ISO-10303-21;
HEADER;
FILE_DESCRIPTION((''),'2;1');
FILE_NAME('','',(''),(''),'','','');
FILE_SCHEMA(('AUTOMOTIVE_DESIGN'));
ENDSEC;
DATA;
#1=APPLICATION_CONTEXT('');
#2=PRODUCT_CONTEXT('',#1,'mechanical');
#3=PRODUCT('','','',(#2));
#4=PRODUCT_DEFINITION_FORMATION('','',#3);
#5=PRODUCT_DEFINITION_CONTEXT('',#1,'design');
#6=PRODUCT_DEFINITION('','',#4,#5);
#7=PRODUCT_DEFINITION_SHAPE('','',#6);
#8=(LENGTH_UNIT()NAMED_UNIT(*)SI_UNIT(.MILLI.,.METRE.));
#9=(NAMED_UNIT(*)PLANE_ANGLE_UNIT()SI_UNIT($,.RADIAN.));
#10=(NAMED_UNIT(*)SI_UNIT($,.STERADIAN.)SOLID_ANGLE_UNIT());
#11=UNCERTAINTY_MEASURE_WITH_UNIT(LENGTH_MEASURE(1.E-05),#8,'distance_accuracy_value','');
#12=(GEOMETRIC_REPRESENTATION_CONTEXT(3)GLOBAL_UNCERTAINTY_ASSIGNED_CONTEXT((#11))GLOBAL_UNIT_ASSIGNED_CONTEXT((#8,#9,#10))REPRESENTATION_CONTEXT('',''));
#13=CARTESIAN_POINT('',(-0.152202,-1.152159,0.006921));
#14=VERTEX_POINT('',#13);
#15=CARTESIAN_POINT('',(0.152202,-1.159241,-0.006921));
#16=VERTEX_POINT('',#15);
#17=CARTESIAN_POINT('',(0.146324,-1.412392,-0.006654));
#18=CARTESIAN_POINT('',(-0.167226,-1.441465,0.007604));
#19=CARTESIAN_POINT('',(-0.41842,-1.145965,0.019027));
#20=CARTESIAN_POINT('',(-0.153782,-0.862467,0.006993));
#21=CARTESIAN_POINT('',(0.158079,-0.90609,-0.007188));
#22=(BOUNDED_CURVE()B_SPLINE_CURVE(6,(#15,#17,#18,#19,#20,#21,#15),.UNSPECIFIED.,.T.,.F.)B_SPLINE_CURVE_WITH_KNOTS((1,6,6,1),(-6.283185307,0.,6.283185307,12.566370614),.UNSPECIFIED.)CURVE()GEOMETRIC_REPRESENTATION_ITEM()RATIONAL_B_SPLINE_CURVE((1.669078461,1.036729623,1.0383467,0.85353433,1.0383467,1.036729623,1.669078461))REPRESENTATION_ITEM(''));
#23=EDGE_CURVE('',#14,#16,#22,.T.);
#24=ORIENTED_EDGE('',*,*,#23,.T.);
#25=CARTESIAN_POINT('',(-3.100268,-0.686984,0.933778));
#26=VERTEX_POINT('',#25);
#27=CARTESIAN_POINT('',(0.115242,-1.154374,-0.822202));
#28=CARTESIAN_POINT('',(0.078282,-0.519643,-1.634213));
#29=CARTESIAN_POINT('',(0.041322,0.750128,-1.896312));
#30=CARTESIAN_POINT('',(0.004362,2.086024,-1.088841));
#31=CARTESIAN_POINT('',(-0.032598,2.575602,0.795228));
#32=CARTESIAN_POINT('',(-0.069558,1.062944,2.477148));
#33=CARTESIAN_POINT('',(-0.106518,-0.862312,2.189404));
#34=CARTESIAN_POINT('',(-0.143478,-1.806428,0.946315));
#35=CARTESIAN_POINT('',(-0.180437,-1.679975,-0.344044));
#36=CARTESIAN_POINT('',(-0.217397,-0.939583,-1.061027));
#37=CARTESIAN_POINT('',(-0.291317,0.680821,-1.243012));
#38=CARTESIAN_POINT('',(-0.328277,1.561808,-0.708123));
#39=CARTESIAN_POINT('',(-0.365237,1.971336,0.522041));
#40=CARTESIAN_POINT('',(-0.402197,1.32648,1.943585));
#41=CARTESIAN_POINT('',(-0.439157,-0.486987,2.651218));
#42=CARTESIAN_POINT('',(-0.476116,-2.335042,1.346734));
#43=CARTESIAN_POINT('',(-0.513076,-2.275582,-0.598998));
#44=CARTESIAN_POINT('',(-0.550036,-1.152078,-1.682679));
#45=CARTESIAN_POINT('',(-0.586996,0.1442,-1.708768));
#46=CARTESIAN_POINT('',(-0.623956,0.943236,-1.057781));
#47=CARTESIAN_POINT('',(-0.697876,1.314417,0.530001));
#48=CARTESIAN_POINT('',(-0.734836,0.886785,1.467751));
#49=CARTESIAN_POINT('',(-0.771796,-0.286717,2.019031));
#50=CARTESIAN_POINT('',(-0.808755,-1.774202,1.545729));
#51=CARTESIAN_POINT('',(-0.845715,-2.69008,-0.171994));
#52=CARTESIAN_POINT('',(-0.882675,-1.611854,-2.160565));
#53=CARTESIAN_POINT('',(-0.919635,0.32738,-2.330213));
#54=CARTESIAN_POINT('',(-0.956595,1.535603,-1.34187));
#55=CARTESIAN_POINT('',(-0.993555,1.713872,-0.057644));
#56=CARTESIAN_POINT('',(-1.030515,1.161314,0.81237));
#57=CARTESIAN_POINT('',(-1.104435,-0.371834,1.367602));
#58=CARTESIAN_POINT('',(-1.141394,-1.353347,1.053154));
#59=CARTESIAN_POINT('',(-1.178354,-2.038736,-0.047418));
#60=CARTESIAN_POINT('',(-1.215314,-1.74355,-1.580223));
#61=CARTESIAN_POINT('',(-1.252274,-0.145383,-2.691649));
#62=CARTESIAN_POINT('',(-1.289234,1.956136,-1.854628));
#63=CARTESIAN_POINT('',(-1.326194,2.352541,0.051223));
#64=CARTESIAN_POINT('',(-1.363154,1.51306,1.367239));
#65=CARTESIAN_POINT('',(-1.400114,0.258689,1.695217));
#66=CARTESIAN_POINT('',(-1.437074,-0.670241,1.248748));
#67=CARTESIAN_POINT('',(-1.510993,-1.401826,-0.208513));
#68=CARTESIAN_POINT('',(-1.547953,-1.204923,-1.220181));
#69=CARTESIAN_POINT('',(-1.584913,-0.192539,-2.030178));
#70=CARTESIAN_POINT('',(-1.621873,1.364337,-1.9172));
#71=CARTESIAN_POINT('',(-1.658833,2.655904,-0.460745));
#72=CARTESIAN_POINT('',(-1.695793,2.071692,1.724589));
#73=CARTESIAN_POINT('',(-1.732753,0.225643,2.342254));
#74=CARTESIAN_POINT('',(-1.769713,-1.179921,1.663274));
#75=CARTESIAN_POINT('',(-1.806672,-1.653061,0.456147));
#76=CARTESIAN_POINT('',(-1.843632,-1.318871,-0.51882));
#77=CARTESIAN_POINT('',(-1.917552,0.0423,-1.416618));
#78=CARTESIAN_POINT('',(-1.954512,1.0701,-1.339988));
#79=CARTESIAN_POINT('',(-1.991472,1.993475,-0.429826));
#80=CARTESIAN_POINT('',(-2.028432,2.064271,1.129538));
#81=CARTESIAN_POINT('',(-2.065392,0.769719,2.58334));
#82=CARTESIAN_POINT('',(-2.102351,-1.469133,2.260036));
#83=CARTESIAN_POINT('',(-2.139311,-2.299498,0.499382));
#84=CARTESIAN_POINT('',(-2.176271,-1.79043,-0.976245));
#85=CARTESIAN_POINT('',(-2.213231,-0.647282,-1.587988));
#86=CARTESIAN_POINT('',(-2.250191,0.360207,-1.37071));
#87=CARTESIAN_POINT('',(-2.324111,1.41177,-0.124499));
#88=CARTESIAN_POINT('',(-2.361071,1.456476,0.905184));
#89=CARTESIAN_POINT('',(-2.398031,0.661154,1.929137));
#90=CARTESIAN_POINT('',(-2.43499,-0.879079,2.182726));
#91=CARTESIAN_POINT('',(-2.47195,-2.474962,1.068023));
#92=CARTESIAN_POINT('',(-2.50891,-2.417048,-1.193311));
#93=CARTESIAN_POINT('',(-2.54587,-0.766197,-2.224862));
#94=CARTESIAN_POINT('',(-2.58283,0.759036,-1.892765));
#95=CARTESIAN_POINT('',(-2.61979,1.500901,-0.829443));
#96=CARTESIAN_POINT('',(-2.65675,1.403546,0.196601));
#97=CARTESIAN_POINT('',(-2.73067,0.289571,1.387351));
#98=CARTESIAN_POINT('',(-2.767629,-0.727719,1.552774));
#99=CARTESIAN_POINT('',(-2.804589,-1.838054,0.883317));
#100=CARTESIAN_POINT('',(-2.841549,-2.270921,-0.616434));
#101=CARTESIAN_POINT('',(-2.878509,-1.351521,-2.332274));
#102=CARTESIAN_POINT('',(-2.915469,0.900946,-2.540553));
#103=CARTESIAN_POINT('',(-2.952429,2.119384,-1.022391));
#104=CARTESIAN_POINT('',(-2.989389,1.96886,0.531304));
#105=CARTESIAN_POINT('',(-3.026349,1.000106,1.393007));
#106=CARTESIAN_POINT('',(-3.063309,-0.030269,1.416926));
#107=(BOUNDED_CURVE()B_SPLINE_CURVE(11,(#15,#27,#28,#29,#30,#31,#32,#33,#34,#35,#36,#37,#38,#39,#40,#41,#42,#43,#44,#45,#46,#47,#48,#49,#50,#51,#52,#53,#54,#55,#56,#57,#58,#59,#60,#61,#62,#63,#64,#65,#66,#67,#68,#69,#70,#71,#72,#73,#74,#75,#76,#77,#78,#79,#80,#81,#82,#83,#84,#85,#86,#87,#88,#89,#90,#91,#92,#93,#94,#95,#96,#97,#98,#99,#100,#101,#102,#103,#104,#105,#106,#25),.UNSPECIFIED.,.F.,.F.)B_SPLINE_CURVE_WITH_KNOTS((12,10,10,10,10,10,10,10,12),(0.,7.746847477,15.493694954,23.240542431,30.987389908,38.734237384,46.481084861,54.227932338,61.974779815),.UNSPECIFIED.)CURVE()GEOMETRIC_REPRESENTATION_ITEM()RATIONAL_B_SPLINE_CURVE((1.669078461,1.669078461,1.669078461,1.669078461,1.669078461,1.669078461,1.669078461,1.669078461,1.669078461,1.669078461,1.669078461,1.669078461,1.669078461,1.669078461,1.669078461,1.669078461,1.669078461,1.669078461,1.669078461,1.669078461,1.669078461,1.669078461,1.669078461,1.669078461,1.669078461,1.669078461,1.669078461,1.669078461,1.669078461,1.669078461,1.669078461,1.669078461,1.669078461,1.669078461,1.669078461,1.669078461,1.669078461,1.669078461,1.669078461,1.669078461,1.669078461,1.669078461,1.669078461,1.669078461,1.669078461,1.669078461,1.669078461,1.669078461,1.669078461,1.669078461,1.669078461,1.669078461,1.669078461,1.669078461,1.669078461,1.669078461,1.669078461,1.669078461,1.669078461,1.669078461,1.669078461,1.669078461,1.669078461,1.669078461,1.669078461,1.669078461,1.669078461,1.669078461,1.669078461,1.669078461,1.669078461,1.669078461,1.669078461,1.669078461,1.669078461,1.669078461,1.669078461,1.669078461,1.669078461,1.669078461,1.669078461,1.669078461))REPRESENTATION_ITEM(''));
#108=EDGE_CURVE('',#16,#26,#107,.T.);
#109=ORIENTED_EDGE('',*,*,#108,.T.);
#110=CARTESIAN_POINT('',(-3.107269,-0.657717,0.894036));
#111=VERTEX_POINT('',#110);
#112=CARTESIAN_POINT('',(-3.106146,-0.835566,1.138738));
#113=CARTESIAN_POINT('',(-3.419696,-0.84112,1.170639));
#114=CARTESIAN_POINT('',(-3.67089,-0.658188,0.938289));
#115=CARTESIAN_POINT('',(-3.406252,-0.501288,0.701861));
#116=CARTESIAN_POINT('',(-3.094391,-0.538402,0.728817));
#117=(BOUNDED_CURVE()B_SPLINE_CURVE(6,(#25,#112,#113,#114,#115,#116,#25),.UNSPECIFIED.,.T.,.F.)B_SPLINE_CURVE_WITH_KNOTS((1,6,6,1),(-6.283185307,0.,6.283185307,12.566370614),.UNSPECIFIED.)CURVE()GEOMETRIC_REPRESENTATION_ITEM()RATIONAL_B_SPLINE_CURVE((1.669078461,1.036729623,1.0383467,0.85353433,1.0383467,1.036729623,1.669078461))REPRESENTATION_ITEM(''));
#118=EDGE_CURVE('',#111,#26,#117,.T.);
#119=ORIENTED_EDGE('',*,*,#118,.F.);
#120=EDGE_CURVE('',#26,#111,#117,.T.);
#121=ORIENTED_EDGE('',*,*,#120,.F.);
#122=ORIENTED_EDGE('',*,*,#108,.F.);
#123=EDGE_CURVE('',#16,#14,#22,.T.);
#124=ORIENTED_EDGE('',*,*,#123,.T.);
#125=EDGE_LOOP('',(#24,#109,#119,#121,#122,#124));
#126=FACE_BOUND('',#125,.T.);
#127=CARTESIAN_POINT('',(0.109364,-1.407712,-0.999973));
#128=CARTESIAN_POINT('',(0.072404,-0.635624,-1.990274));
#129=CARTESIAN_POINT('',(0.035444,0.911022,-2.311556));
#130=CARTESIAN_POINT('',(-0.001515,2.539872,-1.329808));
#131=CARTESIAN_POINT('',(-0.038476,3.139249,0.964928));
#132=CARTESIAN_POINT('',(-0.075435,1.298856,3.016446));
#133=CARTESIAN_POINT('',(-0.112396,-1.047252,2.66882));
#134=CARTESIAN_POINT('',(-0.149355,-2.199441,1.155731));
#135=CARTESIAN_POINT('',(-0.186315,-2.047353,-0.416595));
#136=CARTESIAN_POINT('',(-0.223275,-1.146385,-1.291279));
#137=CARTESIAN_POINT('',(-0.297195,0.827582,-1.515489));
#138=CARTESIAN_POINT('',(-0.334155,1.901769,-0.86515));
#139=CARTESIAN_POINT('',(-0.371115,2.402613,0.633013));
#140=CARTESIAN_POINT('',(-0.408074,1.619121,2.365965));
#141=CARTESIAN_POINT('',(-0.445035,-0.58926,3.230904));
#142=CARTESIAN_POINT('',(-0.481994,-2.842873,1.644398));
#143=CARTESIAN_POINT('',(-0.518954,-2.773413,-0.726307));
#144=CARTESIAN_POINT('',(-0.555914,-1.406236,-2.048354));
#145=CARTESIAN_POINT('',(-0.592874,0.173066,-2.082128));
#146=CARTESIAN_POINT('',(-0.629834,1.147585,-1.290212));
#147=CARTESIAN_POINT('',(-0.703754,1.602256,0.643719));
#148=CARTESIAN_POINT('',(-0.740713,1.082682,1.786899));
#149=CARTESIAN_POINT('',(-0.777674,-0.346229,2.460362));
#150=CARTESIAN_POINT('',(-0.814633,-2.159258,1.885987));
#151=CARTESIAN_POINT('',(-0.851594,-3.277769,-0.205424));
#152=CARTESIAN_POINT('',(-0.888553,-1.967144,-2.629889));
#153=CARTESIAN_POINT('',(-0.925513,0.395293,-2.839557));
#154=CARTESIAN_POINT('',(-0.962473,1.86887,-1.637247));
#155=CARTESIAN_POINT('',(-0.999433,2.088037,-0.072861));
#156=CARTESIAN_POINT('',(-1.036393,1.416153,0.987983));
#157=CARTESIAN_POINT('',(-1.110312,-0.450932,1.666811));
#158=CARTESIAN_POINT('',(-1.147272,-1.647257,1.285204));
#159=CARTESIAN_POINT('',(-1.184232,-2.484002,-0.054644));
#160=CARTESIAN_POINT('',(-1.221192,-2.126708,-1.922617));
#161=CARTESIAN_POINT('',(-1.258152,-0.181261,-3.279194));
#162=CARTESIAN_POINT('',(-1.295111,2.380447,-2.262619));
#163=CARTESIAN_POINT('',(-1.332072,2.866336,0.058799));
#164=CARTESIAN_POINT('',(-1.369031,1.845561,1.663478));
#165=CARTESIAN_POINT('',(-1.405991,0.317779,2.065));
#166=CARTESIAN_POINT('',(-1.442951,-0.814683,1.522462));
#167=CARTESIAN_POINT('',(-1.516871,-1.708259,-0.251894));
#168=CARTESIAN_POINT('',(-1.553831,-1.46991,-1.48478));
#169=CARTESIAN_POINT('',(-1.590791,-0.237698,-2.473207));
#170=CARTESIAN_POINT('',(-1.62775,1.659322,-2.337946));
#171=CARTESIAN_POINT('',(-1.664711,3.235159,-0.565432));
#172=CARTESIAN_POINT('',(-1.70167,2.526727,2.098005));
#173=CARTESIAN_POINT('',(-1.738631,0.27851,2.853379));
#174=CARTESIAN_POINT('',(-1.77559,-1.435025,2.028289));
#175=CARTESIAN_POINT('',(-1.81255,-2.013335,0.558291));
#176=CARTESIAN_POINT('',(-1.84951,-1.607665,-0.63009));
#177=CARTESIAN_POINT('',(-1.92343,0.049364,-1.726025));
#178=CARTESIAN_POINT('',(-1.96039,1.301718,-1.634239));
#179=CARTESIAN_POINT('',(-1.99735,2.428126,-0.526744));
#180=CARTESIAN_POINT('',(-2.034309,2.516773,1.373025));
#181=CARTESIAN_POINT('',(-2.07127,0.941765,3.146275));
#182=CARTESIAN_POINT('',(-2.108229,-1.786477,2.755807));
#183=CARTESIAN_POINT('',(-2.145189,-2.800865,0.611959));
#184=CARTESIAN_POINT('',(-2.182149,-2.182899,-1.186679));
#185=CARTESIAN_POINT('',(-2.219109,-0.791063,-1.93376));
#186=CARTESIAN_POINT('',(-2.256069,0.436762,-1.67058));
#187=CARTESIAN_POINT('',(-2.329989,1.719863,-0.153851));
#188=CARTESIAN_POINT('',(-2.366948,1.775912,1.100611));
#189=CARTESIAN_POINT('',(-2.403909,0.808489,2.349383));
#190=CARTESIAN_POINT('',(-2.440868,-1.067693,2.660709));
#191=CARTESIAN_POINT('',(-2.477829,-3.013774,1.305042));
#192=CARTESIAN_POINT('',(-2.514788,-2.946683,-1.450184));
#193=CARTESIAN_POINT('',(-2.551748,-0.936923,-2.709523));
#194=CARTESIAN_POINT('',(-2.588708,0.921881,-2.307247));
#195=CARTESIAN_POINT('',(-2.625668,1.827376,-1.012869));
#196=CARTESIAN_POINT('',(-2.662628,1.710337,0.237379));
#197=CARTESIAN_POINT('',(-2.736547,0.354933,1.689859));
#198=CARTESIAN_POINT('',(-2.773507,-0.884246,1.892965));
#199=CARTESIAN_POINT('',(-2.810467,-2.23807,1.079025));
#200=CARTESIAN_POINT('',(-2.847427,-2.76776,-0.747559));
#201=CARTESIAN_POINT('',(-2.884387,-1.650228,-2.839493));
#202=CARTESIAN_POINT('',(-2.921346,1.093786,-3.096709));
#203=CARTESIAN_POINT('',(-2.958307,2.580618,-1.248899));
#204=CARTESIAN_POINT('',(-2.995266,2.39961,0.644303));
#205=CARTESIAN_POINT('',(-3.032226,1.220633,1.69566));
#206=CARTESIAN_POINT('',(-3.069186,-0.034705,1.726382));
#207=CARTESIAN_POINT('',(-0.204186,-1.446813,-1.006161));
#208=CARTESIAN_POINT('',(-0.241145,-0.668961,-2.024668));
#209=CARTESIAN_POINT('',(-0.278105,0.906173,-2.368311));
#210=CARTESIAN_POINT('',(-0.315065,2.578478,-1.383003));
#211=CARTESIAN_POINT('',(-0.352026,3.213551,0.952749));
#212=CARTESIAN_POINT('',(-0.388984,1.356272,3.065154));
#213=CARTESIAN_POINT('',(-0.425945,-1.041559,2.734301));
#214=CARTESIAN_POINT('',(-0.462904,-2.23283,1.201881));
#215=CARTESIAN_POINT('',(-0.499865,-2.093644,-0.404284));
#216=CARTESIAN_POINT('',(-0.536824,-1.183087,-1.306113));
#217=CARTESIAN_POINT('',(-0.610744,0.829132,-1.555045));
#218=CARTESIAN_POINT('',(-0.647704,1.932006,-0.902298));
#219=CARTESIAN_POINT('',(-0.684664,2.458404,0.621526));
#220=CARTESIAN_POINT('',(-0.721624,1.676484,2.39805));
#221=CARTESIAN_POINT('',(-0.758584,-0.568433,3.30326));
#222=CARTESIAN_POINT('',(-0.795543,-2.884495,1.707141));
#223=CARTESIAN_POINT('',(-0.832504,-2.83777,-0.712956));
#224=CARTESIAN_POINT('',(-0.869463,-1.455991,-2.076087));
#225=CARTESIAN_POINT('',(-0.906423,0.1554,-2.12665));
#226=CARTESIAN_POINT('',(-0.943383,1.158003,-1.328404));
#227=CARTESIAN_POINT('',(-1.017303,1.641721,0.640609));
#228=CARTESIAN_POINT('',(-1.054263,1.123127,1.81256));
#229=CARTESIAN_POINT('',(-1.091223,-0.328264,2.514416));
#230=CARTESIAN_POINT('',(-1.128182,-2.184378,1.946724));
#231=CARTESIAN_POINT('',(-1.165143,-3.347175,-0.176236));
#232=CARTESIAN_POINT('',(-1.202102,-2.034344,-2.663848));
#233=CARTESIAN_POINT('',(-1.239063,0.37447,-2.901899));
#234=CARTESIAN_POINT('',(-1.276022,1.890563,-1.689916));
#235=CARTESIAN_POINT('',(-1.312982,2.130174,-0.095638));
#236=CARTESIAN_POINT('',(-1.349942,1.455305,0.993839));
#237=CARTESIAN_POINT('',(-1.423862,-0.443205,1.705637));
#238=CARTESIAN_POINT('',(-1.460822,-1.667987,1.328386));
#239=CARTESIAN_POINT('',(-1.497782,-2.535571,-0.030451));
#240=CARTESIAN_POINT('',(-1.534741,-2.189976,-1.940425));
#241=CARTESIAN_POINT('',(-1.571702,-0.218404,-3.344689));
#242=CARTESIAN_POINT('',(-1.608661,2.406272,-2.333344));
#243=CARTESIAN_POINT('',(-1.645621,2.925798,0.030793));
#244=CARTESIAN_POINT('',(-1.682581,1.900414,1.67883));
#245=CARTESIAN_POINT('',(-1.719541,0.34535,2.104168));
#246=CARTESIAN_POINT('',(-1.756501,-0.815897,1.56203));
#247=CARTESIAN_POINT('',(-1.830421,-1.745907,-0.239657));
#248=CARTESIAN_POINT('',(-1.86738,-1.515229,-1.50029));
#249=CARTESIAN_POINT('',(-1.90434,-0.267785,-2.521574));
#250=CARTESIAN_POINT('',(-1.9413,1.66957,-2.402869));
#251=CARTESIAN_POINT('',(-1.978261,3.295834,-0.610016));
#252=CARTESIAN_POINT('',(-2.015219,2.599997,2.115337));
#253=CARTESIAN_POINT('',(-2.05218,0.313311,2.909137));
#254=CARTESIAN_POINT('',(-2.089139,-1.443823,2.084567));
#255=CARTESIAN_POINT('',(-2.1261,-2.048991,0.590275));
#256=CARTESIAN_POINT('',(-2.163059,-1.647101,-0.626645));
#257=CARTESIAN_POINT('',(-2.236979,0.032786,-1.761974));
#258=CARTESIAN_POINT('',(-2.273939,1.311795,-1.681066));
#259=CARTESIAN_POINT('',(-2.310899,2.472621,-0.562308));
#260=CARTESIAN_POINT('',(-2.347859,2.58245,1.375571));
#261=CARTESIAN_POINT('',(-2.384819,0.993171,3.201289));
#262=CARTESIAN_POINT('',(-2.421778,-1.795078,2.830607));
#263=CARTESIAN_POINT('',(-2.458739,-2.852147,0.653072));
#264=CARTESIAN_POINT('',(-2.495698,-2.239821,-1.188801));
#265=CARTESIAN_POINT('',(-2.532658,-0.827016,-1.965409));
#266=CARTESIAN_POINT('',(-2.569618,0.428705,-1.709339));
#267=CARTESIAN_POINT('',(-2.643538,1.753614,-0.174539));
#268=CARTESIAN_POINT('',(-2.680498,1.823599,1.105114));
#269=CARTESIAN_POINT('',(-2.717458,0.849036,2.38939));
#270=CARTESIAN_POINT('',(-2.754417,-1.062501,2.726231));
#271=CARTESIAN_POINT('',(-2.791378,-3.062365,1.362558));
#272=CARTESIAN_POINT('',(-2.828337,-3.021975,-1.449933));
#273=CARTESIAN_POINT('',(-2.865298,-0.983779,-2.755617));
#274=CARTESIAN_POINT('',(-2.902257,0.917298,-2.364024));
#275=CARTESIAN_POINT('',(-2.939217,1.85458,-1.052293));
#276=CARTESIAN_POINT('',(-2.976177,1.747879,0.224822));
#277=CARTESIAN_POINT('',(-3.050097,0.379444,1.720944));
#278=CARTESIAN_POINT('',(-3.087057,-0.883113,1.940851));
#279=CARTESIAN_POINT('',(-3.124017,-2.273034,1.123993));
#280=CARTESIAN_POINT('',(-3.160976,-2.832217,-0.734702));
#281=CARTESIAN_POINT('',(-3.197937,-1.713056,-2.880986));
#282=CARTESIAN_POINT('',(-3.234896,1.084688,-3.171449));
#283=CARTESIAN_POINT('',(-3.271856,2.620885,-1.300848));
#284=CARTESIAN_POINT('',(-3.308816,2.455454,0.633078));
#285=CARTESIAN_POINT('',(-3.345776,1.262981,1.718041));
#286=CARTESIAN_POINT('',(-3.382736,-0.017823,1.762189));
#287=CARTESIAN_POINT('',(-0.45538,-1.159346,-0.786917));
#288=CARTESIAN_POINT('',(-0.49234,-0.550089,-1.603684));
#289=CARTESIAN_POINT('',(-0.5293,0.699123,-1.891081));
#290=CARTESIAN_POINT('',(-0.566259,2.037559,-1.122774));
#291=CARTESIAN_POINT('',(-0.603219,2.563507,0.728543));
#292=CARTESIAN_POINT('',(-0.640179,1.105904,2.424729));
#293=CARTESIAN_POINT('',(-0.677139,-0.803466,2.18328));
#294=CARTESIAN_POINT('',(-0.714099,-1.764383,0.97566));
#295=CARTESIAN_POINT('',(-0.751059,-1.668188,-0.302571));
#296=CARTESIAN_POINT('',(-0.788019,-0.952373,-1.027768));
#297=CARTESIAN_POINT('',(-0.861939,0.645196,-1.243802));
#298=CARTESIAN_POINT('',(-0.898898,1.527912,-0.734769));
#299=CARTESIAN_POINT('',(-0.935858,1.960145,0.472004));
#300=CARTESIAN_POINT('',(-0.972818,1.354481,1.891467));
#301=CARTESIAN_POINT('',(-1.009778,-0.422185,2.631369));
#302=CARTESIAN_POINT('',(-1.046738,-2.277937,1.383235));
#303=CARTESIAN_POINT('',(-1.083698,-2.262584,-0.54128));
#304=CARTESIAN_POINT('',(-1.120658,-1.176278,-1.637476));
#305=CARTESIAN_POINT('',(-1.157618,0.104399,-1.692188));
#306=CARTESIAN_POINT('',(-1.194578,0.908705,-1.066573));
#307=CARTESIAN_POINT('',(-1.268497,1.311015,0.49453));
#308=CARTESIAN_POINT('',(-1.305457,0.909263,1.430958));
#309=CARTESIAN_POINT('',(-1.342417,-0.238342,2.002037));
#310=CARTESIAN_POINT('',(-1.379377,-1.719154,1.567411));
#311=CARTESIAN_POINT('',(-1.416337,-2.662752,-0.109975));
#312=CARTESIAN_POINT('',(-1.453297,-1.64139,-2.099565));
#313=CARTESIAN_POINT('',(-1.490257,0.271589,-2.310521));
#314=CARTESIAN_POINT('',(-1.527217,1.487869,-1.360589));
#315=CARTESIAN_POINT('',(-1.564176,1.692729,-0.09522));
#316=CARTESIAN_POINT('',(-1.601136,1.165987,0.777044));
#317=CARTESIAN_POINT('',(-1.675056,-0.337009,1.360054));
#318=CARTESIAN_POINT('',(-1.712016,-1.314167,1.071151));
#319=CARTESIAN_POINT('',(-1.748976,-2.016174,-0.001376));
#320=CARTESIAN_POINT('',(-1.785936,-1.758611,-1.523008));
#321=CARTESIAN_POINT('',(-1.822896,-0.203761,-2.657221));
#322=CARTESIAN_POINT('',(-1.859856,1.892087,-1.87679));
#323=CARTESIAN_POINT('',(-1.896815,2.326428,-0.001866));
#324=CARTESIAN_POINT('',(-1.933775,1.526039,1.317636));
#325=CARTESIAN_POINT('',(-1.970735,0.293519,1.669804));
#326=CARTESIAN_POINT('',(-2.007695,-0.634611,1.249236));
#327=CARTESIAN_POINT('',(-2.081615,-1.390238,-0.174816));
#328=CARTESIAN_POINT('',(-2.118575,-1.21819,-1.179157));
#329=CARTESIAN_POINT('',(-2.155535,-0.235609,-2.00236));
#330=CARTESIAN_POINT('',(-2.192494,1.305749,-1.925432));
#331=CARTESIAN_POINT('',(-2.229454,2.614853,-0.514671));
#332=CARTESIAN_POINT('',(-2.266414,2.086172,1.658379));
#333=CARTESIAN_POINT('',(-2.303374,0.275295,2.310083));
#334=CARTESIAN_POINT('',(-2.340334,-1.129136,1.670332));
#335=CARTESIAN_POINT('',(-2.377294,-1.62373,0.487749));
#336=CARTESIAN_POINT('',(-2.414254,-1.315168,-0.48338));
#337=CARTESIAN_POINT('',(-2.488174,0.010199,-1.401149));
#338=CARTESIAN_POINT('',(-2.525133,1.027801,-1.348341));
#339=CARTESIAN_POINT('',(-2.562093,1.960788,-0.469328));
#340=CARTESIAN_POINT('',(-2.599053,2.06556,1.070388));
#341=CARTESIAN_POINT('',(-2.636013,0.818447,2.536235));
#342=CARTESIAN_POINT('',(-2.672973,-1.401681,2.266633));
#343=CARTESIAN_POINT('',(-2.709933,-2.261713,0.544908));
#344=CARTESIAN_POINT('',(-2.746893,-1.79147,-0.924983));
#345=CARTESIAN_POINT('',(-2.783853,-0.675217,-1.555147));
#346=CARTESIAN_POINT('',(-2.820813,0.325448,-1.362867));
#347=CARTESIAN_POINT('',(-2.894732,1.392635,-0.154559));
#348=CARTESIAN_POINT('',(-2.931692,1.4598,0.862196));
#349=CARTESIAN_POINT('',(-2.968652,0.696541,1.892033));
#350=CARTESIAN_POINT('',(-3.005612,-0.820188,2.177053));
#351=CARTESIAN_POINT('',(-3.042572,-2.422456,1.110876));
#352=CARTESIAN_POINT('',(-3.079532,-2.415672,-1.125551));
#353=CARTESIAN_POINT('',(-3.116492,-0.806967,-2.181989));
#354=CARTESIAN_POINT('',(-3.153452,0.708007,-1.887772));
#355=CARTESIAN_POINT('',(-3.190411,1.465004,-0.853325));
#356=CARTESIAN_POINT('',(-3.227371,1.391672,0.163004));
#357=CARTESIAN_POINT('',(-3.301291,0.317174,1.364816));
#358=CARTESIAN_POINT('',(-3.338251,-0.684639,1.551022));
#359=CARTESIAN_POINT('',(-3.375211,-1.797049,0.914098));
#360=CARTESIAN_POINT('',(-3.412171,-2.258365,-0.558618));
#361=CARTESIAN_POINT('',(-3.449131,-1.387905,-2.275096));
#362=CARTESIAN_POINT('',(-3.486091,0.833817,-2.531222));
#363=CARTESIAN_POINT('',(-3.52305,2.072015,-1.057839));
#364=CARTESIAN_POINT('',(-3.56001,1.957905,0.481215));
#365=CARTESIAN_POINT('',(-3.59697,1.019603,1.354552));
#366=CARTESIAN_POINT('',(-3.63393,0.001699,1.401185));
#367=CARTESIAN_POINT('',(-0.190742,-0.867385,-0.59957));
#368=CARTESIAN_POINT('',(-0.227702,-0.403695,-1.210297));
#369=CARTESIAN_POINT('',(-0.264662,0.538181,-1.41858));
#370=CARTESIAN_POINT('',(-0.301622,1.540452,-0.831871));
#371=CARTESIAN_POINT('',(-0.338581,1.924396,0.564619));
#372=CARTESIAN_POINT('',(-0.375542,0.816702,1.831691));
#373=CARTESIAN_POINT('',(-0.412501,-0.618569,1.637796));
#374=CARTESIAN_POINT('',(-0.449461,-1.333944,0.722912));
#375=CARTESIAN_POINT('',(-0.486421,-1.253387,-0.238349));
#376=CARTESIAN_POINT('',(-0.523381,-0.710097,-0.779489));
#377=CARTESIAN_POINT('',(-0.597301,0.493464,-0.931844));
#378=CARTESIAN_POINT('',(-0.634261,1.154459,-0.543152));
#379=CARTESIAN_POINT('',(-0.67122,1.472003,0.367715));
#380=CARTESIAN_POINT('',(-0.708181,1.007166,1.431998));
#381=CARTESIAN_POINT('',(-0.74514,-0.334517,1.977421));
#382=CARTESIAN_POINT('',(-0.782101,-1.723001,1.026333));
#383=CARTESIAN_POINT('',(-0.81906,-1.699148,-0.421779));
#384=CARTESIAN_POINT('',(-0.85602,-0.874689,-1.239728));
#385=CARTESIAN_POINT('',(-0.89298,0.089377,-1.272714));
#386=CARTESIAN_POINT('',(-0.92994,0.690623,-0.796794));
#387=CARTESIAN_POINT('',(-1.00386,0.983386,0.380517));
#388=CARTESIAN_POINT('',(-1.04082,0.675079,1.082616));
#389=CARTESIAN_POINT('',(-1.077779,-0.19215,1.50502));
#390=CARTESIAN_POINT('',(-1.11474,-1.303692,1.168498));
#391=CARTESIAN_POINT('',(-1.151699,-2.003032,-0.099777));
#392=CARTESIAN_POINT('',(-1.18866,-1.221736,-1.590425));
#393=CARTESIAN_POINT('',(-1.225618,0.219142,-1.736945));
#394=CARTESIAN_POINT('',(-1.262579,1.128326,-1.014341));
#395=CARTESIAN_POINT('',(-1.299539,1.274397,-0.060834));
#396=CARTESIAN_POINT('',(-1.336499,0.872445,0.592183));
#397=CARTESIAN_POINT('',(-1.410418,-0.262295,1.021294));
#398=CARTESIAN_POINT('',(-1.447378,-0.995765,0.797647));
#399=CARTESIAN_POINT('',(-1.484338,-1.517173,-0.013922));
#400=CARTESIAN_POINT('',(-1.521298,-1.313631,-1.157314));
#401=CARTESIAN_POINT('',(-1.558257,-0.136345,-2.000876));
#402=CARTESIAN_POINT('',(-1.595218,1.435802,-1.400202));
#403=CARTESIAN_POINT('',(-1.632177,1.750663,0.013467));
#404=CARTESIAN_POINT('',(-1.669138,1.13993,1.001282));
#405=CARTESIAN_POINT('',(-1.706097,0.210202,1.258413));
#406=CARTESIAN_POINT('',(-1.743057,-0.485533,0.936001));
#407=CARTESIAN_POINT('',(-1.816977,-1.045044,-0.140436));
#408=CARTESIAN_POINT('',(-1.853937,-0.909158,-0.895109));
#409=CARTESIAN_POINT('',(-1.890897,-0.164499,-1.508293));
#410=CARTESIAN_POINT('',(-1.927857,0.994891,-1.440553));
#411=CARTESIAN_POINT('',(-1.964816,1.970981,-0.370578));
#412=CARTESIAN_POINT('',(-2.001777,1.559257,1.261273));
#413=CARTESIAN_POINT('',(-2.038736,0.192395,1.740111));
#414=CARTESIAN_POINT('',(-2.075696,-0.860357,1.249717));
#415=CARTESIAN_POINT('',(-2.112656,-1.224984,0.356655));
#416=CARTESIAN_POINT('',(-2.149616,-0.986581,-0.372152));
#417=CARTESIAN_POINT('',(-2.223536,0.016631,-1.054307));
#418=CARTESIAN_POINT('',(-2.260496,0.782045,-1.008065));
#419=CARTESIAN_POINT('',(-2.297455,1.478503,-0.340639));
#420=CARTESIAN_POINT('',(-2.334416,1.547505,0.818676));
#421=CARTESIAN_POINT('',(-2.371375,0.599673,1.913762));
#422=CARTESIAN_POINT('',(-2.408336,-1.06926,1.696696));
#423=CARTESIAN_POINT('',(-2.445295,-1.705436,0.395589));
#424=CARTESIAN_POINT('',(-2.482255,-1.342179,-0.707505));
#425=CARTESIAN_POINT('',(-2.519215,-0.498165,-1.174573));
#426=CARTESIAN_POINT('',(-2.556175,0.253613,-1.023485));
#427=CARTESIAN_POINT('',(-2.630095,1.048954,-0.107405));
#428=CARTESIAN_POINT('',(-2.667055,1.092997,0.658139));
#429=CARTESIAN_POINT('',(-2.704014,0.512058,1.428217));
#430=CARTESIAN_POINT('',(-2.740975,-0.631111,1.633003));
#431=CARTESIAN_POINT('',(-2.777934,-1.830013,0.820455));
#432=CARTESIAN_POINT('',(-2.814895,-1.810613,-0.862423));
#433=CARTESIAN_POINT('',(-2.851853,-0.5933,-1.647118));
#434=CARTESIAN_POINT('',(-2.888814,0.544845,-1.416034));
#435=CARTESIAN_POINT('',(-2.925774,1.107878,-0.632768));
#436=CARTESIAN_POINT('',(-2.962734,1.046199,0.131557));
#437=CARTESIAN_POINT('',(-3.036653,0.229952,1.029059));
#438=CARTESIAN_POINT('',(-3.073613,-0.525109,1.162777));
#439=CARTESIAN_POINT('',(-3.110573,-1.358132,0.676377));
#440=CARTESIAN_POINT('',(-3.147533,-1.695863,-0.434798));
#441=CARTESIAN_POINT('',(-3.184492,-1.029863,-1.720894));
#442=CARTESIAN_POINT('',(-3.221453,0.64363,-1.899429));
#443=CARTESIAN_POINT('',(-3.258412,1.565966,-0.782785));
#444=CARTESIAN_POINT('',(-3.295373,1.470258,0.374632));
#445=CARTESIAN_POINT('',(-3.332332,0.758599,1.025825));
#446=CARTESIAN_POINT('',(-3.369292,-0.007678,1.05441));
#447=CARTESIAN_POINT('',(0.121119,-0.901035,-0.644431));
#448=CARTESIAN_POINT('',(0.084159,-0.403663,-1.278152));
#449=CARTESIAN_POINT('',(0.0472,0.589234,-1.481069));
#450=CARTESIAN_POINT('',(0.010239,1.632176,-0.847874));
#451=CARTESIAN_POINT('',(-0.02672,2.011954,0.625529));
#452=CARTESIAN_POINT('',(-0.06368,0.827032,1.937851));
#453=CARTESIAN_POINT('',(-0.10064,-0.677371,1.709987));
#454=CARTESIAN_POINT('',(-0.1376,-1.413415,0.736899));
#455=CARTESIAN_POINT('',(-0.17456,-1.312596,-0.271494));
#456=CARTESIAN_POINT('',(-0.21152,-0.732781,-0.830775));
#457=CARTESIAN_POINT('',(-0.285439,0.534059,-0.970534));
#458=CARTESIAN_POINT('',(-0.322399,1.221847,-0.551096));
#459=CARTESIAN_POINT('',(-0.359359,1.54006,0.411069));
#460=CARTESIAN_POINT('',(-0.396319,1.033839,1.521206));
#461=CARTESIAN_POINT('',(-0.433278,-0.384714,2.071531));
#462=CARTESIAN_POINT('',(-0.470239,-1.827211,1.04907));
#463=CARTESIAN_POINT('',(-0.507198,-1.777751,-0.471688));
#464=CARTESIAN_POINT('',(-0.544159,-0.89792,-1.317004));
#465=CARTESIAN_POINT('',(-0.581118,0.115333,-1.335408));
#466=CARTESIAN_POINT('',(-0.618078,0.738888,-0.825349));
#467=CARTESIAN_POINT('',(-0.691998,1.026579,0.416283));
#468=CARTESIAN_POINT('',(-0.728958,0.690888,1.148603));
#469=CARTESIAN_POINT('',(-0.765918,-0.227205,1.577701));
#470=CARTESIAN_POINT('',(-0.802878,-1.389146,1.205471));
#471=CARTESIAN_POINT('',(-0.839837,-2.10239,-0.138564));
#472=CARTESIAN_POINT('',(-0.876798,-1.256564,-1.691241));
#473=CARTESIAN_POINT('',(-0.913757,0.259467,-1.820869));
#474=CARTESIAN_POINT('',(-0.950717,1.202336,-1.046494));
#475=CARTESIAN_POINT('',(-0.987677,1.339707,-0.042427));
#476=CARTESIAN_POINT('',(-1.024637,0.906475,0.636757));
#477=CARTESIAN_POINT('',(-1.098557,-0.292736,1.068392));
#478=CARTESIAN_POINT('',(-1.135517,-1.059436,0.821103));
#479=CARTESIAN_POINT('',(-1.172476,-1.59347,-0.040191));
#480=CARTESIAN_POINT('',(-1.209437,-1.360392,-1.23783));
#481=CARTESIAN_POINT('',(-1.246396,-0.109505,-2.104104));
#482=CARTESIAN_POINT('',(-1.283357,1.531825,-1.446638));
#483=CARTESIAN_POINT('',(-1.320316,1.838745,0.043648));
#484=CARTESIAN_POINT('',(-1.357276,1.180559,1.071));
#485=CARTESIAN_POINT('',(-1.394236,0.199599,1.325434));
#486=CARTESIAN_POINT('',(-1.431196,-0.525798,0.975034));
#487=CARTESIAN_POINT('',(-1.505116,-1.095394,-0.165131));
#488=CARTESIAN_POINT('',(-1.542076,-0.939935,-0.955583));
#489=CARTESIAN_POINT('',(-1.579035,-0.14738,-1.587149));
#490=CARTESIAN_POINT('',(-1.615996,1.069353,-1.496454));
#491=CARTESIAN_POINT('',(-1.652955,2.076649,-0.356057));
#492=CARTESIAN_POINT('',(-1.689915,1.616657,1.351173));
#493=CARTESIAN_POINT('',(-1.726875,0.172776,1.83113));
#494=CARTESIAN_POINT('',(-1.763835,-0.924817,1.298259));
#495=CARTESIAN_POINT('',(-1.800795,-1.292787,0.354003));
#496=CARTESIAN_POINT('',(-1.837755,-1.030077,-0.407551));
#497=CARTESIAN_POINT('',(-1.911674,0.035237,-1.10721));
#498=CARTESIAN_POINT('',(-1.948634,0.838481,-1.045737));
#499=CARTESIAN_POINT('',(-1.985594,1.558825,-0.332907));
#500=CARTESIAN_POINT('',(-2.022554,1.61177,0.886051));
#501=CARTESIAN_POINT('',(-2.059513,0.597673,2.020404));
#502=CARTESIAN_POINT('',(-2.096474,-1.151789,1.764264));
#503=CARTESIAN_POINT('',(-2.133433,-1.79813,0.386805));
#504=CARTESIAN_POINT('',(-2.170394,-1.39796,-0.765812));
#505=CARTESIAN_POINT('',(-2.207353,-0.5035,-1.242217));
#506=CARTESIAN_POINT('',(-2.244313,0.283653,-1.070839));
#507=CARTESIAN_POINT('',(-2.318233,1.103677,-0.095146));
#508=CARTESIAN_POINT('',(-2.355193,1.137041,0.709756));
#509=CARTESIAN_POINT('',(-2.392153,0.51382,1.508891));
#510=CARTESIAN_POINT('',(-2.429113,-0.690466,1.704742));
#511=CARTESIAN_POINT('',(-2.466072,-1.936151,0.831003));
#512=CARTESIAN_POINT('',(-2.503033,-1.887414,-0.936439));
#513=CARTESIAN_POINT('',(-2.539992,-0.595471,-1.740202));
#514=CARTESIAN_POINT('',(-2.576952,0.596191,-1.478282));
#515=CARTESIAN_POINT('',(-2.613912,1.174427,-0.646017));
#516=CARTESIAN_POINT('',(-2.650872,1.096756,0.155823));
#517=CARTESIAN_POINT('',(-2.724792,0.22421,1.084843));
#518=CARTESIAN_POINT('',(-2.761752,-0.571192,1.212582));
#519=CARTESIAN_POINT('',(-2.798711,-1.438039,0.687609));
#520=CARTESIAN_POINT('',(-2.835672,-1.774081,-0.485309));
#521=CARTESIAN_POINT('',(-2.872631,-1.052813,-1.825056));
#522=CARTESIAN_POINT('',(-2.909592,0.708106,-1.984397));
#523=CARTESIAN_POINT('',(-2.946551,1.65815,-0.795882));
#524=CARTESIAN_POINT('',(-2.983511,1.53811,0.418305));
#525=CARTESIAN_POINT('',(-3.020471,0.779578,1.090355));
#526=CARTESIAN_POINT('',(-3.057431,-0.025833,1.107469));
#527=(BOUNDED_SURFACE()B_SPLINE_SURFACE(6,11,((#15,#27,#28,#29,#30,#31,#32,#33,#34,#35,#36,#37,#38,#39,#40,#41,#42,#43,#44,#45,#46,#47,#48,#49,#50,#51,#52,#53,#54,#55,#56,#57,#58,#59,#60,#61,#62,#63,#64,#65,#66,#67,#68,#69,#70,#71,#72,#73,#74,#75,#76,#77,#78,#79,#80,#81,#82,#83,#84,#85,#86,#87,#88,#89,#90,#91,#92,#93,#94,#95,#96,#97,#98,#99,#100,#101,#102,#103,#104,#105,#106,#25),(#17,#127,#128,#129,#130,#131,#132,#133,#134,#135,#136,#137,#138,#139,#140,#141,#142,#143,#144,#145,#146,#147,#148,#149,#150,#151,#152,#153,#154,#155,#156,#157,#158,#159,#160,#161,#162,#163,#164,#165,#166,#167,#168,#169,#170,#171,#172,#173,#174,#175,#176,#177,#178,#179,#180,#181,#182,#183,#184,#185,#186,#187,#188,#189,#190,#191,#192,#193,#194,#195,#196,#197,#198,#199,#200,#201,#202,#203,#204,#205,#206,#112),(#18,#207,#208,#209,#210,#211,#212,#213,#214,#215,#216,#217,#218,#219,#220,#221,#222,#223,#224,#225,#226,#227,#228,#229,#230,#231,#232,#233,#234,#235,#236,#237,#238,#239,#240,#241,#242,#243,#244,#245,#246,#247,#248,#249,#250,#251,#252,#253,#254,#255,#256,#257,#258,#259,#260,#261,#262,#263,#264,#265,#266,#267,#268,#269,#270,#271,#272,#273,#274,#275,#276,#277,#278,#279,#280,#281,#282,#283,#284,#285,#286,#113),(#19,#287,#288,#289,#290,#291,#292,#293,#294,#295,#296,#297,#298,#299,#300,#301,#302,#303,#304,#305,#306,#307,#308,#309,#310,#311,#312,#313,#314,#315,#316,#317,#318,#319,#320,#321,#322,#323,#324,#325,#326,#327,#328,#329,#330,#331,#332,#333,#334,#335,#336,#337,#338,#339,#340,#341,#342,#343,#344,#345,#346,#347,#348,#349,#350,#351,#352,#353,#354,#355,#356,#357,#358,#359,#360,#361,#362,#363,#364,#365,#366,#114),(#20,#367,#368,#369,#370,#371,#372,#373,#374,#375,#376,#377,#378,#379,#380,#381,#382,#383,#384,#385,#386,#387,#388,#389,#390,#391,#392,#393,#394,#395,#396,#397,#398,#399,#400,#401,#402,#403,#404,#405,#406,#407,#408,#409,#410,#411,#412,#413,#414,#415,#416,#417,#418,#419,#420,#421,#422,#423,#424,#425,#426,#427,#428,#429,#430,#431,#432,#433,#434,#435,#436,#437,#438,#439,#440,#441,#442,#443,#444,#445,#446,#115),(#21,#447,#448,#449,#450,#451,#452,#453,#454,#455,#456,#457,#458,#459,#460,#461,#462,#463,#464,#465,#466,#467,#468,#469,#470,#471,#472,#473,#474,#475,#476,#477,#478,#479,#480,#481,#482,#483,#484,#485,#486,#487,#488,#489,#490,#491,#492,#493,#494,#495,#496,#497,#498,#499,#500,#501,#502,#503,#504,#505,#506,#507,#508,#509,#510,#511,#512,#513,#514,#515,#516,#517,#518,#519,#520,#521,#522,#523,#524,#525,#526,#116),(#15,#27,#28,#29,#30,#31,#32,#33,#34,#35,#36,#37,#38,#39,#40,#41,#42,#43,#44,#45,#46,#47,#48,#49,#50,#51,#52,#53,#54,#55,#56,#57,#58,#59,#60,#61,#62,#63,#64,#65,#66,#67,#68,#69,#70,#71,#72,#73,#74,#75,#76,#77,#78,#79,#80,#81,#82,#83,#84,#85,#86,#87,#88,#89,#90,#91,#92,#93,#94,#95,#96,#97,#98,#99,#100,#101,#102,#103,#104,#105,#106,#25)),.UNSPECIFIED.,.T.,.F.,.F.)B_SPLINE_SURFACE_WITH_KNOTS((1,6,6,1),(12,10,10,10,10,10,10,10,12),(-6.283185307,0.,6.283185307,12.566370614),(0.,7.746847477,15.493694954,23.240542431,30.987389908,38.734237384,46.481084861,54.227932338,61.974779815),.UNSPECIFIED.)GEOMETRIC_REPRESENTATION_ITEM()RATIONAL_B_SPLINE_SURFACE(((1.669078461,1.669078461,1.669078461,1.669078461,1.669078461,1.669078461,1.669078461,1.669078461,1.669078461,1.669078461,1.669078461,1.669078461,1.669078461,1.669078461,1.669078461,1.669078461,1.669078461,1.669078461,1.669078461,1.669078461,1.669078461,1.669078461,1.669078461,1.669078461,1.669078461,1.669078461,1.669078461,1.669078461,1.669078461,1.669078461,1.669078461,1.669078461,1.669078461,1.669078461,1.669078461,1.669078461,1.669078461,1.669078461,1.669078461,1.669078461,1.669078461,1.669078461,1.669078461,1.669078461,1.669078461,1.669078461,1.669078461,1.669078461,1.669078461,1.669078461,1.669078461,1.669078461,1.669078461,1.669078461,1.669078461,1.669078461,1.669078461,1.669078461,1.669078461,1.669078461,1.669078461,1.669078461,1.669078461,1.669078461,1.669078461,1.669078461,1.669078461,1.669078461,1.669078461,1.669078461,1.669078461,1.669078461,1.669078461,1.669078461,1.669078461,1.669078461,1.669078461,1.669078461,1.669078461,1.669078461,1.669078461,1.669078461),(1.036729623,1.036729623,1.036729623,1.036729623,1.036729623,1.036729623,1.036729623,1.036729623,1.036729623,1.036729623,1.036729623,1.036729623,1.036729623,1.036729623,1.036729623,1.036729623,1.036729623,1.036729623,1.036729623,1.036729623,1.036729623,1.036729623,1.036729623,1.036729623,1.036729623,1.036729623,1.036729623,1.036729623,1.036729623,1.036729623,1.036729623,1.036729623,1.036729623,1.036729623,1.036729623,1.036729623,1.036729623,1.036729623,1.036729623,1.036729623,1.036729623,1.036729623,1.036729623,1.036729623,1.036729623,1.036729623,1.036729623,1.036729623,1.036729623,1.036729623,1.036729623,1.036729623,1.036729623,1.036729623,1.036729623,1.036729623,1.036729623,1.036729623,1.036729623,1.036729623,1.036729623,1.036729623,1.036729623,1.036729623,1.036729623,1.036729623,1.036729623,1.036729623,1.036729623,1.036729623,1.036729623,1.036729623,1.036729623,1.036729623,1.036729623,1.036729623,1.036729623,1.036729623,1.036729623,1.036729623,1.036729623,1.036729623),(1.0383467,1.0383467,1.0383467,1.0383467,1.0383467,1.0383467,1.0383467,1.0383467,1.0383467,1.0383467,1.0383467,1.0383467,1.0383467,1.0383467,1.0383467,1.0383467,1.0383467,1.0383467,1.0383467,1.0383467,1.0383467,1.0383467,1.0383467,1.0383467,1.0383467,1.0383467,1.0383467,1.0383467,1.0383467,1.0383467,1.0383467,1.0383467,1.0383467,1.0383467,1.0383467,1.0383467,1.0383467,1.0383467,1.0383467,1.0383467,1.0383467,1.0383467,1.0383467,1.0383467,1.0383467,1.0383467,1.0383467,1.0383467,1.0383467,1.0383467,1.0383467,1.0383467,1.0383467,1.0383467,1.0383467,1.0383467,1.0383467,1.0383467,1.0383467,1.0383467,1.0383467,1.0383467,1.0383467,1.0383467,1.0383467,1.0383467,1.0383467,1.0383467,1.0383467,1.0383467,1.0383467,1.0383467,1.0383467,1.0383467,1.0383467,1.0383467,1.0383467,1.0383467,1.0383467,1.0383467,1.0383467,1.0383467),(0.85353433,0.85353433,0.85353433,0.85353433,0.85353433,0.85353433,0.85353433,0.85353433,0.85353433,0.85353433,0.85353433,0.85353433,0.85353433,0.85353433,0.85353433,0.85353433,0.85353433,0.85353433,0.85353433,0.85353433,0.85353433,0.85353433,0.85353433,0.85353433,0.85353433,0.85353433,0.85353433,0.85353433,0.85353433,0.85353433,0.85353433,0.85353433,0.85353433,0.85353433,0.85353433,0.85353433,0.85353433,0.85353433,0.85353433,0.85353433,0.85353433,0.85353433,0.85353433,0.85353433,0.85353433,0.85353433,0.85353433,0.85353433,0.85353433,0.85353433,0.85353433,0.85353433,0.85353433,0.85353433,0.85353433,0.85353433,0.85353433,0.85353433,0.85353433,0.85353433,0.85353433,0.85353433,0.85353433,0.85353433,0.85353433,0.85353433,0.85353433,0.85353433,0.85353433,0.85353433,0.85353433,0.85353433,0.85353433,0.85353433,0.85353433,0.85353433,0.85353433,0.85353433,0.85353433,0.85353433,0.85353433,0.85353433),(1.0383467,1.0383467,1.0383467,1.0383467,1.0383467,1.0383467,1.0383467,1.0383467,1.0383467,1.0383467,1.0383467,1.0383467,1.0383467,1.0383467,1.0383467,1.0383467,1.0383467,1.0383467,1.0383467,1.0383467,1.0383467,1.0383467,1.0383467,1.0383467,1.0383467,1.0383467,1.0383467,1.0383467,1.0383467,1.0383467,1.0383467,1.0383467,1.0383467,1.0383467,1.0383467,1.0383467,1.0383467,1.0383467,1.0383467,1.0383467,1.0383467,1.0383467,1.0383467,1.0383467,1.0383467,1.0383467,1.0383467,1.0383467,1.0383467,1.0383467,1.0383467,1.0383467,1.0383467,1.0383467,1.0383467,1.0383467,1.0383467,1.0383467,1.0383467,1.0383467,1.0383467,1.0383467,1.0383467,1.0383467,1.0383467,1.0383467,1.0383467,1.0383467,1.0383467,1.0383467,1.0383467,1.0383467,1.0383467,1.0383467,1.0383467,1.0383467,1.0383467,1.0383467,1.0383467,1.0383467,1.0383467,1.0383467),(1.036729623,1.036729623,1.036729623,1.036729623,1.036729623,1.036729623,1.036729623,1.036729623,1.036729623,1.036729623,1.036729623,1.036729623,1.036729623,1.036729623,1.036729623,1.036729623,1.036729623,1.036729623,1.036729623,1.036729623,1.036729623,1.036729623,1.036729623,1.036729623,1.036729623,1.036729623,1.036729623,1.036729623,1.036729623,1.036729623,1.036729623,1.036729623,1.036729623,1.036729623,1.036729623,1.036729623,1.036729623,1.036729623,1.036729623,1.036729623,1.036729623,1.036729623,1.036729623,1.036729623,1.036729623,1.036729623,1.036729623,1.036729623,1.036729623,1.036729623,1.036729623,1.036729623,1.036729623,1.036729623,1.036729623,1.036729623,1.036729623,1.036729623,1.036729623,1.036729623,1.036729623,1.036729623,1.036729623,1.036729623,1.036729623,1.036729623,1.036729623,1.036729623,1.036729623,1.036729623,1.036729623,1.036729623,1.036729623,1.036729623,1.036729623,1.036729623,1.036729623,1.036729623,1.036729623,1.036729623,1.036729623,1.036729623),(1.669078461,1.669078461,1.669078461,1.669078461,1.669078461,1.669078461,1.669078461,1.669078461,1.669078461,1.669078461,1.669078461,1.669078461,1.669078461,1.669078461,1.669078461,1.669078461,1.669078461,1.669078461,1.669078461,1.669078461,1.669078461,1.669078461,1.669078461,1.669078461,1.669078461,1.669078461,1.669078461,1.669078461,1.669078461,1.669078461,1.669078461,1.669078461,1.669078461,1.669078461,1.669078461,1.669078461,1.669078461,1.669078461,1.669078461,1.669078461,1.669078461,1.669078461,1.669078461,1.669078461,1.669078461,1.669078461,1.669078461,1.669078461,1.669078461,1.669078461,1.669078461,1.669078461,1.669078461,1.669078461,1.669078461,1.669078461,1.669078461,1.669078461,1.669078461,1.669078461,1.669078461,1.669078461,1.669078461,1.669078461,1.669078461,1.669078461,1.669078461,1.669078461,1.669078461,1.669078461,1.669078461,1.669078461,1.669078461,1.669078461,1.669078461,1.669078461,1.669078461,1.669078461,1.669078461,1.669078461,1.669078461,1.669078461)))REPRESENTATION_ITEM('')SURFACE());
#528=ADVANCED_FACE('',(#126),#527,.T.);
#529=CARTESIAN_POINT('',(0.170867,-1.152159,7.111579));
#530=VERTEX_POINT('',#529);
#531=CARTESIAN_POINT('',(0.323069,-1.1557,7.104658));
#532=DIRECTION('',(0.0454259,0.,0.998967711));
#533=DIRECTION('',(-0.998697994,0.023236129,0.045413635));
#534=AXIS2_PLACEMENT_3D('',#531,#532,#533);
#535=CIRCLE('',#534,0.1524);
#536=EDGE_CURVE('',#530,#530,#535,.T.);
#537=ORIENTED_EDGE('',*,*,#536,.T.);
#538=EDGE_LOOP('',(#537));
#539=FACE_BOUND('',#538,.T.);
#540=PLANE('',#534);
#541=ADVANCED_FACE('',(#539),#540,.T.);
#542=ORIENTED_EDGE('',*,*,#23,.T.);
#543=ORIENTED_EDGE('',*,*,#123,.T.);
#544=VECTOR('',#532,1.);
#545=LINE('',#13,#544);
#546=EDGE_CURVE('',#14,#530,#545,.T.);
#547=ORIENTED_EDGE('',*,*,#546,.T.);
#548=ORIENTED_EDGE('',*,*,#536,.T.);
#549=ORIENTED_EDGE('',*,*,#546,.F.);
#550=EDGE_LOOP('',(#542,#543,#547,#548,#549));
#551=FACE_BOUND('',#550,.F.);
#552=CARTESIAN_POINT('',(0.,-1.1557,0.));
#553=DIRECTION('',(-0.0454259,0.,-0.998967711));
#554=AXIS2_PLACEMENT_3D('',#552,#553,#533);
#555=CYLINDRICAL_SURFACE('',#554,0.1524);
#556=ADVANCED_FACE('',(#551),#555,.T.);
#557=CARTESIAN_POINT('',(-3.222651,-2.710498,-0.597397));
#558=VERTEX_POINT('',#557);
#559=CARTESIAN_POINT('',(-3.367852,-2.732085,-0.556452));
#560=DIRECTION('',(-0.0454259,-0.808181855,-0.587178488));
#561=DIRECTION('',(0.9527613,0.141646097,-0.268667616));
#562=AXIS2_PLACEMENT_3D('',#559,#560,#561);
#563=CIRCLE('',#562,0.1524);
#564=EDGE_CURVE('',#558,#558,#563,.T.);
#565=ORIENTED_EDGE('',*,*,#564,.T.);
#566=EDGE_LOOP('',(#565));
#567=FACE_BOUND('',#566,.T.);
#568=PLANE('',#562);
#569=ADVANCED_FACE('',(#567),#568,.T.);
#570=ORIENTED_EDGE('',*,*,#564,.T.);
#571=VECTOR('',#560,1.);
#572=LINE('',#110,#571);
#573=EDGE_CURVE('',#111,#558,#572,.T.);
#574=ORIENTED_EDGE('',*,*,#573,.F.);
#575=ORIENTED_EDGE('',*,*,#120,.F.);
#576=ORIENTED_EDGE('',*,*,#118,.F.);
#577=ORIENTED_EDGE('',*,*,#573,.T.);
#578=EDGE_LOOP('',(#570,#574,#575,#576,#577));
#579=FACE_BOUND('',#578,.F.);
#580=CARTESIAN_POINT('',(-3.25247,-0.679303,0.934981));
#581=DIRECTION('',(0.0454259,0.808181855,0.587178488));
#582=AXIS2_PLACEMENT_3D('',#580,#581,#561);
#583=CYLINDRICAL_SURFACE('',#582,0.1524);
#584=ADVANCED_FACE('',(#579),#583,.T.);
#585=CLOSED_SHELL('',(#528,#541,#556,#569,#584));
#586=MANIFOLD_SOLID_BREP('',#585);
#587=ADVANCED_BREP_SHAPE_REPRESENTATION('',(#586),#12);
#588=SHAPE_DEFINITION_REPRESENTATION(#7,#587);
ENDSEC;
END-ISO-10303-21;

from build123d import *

# Parameters (mm, degrees)
SWEEP1_PITCH       = 0.3302
SWEEP1_HEIGHT      = 3.25247
SWEEP1_RADIUS      = 1.1557
SWEEP1_START_ANGLE = 90
SKETCH3_R          = 0.1524
SKETCH4_R          = 0.1524
EXTRUDE1_DEPTH     = 7.112
SKETCH5_R          = 0.1524
EXTRUDE2_DEPTH     = 2.54


with BuildPart() as part:
    # Sweep1: sweep along a helix
    with BuildLine() as sweep1_path:
        add(Helix(SWEEP1_PITCH, SWEEP1_HEIGHT, SWEEP1_RADIUS, center=(0, 0, 0), direction=(-1, 0, 0), lefthand=True, mode=Mode.PRIVATE).rotate(Axis((0, 0, 0), (-1, 0, 0)), SWEEP1_START_ANGLE))
    # Sketch3 → Sweep1 (sweep)
    with BuildSketch(Plane(origin=(0, -1.1557, 0), x_dir=(0.998697994, -0.023236129, -0.045413635), z_dir=(-0.0454259, 0, -0.998967711))):
        Circle(SKETCH3_R)
    sweep(path=sweep1_path.line, is_frenet=True)

    # Sketch4 → Extrude1 (add)
    with BuildSketch(Plane(origin=(0, 0, 0), x_dir=(-0.998697994, 0.023236129, 0.045413635), z_dir=(0.0454259, 0, 0.998967711))):
        with Locations((-0.026853994, 1.155387966)):
            Circle(SKETCH4_R)
    extrude(amount=EXTRUDE1_DEPTH)

    # Sketch5 → Extrude2 (add)
    with BuildSketch(Plane(origin=(-0.006711512, -0.11940594, -0.086753494), x_dir=(0.9527613, 0.141646097, -0.268667616), z_dir=(-0.0454259, -0.808181855, -0.587178488))):
        with Locations((-3.446247324, 0.125514859)):
            Circle(SKETCH5_R)
    extrude(amount=EXTRUDE2_DEPTH)


solid = part.part
